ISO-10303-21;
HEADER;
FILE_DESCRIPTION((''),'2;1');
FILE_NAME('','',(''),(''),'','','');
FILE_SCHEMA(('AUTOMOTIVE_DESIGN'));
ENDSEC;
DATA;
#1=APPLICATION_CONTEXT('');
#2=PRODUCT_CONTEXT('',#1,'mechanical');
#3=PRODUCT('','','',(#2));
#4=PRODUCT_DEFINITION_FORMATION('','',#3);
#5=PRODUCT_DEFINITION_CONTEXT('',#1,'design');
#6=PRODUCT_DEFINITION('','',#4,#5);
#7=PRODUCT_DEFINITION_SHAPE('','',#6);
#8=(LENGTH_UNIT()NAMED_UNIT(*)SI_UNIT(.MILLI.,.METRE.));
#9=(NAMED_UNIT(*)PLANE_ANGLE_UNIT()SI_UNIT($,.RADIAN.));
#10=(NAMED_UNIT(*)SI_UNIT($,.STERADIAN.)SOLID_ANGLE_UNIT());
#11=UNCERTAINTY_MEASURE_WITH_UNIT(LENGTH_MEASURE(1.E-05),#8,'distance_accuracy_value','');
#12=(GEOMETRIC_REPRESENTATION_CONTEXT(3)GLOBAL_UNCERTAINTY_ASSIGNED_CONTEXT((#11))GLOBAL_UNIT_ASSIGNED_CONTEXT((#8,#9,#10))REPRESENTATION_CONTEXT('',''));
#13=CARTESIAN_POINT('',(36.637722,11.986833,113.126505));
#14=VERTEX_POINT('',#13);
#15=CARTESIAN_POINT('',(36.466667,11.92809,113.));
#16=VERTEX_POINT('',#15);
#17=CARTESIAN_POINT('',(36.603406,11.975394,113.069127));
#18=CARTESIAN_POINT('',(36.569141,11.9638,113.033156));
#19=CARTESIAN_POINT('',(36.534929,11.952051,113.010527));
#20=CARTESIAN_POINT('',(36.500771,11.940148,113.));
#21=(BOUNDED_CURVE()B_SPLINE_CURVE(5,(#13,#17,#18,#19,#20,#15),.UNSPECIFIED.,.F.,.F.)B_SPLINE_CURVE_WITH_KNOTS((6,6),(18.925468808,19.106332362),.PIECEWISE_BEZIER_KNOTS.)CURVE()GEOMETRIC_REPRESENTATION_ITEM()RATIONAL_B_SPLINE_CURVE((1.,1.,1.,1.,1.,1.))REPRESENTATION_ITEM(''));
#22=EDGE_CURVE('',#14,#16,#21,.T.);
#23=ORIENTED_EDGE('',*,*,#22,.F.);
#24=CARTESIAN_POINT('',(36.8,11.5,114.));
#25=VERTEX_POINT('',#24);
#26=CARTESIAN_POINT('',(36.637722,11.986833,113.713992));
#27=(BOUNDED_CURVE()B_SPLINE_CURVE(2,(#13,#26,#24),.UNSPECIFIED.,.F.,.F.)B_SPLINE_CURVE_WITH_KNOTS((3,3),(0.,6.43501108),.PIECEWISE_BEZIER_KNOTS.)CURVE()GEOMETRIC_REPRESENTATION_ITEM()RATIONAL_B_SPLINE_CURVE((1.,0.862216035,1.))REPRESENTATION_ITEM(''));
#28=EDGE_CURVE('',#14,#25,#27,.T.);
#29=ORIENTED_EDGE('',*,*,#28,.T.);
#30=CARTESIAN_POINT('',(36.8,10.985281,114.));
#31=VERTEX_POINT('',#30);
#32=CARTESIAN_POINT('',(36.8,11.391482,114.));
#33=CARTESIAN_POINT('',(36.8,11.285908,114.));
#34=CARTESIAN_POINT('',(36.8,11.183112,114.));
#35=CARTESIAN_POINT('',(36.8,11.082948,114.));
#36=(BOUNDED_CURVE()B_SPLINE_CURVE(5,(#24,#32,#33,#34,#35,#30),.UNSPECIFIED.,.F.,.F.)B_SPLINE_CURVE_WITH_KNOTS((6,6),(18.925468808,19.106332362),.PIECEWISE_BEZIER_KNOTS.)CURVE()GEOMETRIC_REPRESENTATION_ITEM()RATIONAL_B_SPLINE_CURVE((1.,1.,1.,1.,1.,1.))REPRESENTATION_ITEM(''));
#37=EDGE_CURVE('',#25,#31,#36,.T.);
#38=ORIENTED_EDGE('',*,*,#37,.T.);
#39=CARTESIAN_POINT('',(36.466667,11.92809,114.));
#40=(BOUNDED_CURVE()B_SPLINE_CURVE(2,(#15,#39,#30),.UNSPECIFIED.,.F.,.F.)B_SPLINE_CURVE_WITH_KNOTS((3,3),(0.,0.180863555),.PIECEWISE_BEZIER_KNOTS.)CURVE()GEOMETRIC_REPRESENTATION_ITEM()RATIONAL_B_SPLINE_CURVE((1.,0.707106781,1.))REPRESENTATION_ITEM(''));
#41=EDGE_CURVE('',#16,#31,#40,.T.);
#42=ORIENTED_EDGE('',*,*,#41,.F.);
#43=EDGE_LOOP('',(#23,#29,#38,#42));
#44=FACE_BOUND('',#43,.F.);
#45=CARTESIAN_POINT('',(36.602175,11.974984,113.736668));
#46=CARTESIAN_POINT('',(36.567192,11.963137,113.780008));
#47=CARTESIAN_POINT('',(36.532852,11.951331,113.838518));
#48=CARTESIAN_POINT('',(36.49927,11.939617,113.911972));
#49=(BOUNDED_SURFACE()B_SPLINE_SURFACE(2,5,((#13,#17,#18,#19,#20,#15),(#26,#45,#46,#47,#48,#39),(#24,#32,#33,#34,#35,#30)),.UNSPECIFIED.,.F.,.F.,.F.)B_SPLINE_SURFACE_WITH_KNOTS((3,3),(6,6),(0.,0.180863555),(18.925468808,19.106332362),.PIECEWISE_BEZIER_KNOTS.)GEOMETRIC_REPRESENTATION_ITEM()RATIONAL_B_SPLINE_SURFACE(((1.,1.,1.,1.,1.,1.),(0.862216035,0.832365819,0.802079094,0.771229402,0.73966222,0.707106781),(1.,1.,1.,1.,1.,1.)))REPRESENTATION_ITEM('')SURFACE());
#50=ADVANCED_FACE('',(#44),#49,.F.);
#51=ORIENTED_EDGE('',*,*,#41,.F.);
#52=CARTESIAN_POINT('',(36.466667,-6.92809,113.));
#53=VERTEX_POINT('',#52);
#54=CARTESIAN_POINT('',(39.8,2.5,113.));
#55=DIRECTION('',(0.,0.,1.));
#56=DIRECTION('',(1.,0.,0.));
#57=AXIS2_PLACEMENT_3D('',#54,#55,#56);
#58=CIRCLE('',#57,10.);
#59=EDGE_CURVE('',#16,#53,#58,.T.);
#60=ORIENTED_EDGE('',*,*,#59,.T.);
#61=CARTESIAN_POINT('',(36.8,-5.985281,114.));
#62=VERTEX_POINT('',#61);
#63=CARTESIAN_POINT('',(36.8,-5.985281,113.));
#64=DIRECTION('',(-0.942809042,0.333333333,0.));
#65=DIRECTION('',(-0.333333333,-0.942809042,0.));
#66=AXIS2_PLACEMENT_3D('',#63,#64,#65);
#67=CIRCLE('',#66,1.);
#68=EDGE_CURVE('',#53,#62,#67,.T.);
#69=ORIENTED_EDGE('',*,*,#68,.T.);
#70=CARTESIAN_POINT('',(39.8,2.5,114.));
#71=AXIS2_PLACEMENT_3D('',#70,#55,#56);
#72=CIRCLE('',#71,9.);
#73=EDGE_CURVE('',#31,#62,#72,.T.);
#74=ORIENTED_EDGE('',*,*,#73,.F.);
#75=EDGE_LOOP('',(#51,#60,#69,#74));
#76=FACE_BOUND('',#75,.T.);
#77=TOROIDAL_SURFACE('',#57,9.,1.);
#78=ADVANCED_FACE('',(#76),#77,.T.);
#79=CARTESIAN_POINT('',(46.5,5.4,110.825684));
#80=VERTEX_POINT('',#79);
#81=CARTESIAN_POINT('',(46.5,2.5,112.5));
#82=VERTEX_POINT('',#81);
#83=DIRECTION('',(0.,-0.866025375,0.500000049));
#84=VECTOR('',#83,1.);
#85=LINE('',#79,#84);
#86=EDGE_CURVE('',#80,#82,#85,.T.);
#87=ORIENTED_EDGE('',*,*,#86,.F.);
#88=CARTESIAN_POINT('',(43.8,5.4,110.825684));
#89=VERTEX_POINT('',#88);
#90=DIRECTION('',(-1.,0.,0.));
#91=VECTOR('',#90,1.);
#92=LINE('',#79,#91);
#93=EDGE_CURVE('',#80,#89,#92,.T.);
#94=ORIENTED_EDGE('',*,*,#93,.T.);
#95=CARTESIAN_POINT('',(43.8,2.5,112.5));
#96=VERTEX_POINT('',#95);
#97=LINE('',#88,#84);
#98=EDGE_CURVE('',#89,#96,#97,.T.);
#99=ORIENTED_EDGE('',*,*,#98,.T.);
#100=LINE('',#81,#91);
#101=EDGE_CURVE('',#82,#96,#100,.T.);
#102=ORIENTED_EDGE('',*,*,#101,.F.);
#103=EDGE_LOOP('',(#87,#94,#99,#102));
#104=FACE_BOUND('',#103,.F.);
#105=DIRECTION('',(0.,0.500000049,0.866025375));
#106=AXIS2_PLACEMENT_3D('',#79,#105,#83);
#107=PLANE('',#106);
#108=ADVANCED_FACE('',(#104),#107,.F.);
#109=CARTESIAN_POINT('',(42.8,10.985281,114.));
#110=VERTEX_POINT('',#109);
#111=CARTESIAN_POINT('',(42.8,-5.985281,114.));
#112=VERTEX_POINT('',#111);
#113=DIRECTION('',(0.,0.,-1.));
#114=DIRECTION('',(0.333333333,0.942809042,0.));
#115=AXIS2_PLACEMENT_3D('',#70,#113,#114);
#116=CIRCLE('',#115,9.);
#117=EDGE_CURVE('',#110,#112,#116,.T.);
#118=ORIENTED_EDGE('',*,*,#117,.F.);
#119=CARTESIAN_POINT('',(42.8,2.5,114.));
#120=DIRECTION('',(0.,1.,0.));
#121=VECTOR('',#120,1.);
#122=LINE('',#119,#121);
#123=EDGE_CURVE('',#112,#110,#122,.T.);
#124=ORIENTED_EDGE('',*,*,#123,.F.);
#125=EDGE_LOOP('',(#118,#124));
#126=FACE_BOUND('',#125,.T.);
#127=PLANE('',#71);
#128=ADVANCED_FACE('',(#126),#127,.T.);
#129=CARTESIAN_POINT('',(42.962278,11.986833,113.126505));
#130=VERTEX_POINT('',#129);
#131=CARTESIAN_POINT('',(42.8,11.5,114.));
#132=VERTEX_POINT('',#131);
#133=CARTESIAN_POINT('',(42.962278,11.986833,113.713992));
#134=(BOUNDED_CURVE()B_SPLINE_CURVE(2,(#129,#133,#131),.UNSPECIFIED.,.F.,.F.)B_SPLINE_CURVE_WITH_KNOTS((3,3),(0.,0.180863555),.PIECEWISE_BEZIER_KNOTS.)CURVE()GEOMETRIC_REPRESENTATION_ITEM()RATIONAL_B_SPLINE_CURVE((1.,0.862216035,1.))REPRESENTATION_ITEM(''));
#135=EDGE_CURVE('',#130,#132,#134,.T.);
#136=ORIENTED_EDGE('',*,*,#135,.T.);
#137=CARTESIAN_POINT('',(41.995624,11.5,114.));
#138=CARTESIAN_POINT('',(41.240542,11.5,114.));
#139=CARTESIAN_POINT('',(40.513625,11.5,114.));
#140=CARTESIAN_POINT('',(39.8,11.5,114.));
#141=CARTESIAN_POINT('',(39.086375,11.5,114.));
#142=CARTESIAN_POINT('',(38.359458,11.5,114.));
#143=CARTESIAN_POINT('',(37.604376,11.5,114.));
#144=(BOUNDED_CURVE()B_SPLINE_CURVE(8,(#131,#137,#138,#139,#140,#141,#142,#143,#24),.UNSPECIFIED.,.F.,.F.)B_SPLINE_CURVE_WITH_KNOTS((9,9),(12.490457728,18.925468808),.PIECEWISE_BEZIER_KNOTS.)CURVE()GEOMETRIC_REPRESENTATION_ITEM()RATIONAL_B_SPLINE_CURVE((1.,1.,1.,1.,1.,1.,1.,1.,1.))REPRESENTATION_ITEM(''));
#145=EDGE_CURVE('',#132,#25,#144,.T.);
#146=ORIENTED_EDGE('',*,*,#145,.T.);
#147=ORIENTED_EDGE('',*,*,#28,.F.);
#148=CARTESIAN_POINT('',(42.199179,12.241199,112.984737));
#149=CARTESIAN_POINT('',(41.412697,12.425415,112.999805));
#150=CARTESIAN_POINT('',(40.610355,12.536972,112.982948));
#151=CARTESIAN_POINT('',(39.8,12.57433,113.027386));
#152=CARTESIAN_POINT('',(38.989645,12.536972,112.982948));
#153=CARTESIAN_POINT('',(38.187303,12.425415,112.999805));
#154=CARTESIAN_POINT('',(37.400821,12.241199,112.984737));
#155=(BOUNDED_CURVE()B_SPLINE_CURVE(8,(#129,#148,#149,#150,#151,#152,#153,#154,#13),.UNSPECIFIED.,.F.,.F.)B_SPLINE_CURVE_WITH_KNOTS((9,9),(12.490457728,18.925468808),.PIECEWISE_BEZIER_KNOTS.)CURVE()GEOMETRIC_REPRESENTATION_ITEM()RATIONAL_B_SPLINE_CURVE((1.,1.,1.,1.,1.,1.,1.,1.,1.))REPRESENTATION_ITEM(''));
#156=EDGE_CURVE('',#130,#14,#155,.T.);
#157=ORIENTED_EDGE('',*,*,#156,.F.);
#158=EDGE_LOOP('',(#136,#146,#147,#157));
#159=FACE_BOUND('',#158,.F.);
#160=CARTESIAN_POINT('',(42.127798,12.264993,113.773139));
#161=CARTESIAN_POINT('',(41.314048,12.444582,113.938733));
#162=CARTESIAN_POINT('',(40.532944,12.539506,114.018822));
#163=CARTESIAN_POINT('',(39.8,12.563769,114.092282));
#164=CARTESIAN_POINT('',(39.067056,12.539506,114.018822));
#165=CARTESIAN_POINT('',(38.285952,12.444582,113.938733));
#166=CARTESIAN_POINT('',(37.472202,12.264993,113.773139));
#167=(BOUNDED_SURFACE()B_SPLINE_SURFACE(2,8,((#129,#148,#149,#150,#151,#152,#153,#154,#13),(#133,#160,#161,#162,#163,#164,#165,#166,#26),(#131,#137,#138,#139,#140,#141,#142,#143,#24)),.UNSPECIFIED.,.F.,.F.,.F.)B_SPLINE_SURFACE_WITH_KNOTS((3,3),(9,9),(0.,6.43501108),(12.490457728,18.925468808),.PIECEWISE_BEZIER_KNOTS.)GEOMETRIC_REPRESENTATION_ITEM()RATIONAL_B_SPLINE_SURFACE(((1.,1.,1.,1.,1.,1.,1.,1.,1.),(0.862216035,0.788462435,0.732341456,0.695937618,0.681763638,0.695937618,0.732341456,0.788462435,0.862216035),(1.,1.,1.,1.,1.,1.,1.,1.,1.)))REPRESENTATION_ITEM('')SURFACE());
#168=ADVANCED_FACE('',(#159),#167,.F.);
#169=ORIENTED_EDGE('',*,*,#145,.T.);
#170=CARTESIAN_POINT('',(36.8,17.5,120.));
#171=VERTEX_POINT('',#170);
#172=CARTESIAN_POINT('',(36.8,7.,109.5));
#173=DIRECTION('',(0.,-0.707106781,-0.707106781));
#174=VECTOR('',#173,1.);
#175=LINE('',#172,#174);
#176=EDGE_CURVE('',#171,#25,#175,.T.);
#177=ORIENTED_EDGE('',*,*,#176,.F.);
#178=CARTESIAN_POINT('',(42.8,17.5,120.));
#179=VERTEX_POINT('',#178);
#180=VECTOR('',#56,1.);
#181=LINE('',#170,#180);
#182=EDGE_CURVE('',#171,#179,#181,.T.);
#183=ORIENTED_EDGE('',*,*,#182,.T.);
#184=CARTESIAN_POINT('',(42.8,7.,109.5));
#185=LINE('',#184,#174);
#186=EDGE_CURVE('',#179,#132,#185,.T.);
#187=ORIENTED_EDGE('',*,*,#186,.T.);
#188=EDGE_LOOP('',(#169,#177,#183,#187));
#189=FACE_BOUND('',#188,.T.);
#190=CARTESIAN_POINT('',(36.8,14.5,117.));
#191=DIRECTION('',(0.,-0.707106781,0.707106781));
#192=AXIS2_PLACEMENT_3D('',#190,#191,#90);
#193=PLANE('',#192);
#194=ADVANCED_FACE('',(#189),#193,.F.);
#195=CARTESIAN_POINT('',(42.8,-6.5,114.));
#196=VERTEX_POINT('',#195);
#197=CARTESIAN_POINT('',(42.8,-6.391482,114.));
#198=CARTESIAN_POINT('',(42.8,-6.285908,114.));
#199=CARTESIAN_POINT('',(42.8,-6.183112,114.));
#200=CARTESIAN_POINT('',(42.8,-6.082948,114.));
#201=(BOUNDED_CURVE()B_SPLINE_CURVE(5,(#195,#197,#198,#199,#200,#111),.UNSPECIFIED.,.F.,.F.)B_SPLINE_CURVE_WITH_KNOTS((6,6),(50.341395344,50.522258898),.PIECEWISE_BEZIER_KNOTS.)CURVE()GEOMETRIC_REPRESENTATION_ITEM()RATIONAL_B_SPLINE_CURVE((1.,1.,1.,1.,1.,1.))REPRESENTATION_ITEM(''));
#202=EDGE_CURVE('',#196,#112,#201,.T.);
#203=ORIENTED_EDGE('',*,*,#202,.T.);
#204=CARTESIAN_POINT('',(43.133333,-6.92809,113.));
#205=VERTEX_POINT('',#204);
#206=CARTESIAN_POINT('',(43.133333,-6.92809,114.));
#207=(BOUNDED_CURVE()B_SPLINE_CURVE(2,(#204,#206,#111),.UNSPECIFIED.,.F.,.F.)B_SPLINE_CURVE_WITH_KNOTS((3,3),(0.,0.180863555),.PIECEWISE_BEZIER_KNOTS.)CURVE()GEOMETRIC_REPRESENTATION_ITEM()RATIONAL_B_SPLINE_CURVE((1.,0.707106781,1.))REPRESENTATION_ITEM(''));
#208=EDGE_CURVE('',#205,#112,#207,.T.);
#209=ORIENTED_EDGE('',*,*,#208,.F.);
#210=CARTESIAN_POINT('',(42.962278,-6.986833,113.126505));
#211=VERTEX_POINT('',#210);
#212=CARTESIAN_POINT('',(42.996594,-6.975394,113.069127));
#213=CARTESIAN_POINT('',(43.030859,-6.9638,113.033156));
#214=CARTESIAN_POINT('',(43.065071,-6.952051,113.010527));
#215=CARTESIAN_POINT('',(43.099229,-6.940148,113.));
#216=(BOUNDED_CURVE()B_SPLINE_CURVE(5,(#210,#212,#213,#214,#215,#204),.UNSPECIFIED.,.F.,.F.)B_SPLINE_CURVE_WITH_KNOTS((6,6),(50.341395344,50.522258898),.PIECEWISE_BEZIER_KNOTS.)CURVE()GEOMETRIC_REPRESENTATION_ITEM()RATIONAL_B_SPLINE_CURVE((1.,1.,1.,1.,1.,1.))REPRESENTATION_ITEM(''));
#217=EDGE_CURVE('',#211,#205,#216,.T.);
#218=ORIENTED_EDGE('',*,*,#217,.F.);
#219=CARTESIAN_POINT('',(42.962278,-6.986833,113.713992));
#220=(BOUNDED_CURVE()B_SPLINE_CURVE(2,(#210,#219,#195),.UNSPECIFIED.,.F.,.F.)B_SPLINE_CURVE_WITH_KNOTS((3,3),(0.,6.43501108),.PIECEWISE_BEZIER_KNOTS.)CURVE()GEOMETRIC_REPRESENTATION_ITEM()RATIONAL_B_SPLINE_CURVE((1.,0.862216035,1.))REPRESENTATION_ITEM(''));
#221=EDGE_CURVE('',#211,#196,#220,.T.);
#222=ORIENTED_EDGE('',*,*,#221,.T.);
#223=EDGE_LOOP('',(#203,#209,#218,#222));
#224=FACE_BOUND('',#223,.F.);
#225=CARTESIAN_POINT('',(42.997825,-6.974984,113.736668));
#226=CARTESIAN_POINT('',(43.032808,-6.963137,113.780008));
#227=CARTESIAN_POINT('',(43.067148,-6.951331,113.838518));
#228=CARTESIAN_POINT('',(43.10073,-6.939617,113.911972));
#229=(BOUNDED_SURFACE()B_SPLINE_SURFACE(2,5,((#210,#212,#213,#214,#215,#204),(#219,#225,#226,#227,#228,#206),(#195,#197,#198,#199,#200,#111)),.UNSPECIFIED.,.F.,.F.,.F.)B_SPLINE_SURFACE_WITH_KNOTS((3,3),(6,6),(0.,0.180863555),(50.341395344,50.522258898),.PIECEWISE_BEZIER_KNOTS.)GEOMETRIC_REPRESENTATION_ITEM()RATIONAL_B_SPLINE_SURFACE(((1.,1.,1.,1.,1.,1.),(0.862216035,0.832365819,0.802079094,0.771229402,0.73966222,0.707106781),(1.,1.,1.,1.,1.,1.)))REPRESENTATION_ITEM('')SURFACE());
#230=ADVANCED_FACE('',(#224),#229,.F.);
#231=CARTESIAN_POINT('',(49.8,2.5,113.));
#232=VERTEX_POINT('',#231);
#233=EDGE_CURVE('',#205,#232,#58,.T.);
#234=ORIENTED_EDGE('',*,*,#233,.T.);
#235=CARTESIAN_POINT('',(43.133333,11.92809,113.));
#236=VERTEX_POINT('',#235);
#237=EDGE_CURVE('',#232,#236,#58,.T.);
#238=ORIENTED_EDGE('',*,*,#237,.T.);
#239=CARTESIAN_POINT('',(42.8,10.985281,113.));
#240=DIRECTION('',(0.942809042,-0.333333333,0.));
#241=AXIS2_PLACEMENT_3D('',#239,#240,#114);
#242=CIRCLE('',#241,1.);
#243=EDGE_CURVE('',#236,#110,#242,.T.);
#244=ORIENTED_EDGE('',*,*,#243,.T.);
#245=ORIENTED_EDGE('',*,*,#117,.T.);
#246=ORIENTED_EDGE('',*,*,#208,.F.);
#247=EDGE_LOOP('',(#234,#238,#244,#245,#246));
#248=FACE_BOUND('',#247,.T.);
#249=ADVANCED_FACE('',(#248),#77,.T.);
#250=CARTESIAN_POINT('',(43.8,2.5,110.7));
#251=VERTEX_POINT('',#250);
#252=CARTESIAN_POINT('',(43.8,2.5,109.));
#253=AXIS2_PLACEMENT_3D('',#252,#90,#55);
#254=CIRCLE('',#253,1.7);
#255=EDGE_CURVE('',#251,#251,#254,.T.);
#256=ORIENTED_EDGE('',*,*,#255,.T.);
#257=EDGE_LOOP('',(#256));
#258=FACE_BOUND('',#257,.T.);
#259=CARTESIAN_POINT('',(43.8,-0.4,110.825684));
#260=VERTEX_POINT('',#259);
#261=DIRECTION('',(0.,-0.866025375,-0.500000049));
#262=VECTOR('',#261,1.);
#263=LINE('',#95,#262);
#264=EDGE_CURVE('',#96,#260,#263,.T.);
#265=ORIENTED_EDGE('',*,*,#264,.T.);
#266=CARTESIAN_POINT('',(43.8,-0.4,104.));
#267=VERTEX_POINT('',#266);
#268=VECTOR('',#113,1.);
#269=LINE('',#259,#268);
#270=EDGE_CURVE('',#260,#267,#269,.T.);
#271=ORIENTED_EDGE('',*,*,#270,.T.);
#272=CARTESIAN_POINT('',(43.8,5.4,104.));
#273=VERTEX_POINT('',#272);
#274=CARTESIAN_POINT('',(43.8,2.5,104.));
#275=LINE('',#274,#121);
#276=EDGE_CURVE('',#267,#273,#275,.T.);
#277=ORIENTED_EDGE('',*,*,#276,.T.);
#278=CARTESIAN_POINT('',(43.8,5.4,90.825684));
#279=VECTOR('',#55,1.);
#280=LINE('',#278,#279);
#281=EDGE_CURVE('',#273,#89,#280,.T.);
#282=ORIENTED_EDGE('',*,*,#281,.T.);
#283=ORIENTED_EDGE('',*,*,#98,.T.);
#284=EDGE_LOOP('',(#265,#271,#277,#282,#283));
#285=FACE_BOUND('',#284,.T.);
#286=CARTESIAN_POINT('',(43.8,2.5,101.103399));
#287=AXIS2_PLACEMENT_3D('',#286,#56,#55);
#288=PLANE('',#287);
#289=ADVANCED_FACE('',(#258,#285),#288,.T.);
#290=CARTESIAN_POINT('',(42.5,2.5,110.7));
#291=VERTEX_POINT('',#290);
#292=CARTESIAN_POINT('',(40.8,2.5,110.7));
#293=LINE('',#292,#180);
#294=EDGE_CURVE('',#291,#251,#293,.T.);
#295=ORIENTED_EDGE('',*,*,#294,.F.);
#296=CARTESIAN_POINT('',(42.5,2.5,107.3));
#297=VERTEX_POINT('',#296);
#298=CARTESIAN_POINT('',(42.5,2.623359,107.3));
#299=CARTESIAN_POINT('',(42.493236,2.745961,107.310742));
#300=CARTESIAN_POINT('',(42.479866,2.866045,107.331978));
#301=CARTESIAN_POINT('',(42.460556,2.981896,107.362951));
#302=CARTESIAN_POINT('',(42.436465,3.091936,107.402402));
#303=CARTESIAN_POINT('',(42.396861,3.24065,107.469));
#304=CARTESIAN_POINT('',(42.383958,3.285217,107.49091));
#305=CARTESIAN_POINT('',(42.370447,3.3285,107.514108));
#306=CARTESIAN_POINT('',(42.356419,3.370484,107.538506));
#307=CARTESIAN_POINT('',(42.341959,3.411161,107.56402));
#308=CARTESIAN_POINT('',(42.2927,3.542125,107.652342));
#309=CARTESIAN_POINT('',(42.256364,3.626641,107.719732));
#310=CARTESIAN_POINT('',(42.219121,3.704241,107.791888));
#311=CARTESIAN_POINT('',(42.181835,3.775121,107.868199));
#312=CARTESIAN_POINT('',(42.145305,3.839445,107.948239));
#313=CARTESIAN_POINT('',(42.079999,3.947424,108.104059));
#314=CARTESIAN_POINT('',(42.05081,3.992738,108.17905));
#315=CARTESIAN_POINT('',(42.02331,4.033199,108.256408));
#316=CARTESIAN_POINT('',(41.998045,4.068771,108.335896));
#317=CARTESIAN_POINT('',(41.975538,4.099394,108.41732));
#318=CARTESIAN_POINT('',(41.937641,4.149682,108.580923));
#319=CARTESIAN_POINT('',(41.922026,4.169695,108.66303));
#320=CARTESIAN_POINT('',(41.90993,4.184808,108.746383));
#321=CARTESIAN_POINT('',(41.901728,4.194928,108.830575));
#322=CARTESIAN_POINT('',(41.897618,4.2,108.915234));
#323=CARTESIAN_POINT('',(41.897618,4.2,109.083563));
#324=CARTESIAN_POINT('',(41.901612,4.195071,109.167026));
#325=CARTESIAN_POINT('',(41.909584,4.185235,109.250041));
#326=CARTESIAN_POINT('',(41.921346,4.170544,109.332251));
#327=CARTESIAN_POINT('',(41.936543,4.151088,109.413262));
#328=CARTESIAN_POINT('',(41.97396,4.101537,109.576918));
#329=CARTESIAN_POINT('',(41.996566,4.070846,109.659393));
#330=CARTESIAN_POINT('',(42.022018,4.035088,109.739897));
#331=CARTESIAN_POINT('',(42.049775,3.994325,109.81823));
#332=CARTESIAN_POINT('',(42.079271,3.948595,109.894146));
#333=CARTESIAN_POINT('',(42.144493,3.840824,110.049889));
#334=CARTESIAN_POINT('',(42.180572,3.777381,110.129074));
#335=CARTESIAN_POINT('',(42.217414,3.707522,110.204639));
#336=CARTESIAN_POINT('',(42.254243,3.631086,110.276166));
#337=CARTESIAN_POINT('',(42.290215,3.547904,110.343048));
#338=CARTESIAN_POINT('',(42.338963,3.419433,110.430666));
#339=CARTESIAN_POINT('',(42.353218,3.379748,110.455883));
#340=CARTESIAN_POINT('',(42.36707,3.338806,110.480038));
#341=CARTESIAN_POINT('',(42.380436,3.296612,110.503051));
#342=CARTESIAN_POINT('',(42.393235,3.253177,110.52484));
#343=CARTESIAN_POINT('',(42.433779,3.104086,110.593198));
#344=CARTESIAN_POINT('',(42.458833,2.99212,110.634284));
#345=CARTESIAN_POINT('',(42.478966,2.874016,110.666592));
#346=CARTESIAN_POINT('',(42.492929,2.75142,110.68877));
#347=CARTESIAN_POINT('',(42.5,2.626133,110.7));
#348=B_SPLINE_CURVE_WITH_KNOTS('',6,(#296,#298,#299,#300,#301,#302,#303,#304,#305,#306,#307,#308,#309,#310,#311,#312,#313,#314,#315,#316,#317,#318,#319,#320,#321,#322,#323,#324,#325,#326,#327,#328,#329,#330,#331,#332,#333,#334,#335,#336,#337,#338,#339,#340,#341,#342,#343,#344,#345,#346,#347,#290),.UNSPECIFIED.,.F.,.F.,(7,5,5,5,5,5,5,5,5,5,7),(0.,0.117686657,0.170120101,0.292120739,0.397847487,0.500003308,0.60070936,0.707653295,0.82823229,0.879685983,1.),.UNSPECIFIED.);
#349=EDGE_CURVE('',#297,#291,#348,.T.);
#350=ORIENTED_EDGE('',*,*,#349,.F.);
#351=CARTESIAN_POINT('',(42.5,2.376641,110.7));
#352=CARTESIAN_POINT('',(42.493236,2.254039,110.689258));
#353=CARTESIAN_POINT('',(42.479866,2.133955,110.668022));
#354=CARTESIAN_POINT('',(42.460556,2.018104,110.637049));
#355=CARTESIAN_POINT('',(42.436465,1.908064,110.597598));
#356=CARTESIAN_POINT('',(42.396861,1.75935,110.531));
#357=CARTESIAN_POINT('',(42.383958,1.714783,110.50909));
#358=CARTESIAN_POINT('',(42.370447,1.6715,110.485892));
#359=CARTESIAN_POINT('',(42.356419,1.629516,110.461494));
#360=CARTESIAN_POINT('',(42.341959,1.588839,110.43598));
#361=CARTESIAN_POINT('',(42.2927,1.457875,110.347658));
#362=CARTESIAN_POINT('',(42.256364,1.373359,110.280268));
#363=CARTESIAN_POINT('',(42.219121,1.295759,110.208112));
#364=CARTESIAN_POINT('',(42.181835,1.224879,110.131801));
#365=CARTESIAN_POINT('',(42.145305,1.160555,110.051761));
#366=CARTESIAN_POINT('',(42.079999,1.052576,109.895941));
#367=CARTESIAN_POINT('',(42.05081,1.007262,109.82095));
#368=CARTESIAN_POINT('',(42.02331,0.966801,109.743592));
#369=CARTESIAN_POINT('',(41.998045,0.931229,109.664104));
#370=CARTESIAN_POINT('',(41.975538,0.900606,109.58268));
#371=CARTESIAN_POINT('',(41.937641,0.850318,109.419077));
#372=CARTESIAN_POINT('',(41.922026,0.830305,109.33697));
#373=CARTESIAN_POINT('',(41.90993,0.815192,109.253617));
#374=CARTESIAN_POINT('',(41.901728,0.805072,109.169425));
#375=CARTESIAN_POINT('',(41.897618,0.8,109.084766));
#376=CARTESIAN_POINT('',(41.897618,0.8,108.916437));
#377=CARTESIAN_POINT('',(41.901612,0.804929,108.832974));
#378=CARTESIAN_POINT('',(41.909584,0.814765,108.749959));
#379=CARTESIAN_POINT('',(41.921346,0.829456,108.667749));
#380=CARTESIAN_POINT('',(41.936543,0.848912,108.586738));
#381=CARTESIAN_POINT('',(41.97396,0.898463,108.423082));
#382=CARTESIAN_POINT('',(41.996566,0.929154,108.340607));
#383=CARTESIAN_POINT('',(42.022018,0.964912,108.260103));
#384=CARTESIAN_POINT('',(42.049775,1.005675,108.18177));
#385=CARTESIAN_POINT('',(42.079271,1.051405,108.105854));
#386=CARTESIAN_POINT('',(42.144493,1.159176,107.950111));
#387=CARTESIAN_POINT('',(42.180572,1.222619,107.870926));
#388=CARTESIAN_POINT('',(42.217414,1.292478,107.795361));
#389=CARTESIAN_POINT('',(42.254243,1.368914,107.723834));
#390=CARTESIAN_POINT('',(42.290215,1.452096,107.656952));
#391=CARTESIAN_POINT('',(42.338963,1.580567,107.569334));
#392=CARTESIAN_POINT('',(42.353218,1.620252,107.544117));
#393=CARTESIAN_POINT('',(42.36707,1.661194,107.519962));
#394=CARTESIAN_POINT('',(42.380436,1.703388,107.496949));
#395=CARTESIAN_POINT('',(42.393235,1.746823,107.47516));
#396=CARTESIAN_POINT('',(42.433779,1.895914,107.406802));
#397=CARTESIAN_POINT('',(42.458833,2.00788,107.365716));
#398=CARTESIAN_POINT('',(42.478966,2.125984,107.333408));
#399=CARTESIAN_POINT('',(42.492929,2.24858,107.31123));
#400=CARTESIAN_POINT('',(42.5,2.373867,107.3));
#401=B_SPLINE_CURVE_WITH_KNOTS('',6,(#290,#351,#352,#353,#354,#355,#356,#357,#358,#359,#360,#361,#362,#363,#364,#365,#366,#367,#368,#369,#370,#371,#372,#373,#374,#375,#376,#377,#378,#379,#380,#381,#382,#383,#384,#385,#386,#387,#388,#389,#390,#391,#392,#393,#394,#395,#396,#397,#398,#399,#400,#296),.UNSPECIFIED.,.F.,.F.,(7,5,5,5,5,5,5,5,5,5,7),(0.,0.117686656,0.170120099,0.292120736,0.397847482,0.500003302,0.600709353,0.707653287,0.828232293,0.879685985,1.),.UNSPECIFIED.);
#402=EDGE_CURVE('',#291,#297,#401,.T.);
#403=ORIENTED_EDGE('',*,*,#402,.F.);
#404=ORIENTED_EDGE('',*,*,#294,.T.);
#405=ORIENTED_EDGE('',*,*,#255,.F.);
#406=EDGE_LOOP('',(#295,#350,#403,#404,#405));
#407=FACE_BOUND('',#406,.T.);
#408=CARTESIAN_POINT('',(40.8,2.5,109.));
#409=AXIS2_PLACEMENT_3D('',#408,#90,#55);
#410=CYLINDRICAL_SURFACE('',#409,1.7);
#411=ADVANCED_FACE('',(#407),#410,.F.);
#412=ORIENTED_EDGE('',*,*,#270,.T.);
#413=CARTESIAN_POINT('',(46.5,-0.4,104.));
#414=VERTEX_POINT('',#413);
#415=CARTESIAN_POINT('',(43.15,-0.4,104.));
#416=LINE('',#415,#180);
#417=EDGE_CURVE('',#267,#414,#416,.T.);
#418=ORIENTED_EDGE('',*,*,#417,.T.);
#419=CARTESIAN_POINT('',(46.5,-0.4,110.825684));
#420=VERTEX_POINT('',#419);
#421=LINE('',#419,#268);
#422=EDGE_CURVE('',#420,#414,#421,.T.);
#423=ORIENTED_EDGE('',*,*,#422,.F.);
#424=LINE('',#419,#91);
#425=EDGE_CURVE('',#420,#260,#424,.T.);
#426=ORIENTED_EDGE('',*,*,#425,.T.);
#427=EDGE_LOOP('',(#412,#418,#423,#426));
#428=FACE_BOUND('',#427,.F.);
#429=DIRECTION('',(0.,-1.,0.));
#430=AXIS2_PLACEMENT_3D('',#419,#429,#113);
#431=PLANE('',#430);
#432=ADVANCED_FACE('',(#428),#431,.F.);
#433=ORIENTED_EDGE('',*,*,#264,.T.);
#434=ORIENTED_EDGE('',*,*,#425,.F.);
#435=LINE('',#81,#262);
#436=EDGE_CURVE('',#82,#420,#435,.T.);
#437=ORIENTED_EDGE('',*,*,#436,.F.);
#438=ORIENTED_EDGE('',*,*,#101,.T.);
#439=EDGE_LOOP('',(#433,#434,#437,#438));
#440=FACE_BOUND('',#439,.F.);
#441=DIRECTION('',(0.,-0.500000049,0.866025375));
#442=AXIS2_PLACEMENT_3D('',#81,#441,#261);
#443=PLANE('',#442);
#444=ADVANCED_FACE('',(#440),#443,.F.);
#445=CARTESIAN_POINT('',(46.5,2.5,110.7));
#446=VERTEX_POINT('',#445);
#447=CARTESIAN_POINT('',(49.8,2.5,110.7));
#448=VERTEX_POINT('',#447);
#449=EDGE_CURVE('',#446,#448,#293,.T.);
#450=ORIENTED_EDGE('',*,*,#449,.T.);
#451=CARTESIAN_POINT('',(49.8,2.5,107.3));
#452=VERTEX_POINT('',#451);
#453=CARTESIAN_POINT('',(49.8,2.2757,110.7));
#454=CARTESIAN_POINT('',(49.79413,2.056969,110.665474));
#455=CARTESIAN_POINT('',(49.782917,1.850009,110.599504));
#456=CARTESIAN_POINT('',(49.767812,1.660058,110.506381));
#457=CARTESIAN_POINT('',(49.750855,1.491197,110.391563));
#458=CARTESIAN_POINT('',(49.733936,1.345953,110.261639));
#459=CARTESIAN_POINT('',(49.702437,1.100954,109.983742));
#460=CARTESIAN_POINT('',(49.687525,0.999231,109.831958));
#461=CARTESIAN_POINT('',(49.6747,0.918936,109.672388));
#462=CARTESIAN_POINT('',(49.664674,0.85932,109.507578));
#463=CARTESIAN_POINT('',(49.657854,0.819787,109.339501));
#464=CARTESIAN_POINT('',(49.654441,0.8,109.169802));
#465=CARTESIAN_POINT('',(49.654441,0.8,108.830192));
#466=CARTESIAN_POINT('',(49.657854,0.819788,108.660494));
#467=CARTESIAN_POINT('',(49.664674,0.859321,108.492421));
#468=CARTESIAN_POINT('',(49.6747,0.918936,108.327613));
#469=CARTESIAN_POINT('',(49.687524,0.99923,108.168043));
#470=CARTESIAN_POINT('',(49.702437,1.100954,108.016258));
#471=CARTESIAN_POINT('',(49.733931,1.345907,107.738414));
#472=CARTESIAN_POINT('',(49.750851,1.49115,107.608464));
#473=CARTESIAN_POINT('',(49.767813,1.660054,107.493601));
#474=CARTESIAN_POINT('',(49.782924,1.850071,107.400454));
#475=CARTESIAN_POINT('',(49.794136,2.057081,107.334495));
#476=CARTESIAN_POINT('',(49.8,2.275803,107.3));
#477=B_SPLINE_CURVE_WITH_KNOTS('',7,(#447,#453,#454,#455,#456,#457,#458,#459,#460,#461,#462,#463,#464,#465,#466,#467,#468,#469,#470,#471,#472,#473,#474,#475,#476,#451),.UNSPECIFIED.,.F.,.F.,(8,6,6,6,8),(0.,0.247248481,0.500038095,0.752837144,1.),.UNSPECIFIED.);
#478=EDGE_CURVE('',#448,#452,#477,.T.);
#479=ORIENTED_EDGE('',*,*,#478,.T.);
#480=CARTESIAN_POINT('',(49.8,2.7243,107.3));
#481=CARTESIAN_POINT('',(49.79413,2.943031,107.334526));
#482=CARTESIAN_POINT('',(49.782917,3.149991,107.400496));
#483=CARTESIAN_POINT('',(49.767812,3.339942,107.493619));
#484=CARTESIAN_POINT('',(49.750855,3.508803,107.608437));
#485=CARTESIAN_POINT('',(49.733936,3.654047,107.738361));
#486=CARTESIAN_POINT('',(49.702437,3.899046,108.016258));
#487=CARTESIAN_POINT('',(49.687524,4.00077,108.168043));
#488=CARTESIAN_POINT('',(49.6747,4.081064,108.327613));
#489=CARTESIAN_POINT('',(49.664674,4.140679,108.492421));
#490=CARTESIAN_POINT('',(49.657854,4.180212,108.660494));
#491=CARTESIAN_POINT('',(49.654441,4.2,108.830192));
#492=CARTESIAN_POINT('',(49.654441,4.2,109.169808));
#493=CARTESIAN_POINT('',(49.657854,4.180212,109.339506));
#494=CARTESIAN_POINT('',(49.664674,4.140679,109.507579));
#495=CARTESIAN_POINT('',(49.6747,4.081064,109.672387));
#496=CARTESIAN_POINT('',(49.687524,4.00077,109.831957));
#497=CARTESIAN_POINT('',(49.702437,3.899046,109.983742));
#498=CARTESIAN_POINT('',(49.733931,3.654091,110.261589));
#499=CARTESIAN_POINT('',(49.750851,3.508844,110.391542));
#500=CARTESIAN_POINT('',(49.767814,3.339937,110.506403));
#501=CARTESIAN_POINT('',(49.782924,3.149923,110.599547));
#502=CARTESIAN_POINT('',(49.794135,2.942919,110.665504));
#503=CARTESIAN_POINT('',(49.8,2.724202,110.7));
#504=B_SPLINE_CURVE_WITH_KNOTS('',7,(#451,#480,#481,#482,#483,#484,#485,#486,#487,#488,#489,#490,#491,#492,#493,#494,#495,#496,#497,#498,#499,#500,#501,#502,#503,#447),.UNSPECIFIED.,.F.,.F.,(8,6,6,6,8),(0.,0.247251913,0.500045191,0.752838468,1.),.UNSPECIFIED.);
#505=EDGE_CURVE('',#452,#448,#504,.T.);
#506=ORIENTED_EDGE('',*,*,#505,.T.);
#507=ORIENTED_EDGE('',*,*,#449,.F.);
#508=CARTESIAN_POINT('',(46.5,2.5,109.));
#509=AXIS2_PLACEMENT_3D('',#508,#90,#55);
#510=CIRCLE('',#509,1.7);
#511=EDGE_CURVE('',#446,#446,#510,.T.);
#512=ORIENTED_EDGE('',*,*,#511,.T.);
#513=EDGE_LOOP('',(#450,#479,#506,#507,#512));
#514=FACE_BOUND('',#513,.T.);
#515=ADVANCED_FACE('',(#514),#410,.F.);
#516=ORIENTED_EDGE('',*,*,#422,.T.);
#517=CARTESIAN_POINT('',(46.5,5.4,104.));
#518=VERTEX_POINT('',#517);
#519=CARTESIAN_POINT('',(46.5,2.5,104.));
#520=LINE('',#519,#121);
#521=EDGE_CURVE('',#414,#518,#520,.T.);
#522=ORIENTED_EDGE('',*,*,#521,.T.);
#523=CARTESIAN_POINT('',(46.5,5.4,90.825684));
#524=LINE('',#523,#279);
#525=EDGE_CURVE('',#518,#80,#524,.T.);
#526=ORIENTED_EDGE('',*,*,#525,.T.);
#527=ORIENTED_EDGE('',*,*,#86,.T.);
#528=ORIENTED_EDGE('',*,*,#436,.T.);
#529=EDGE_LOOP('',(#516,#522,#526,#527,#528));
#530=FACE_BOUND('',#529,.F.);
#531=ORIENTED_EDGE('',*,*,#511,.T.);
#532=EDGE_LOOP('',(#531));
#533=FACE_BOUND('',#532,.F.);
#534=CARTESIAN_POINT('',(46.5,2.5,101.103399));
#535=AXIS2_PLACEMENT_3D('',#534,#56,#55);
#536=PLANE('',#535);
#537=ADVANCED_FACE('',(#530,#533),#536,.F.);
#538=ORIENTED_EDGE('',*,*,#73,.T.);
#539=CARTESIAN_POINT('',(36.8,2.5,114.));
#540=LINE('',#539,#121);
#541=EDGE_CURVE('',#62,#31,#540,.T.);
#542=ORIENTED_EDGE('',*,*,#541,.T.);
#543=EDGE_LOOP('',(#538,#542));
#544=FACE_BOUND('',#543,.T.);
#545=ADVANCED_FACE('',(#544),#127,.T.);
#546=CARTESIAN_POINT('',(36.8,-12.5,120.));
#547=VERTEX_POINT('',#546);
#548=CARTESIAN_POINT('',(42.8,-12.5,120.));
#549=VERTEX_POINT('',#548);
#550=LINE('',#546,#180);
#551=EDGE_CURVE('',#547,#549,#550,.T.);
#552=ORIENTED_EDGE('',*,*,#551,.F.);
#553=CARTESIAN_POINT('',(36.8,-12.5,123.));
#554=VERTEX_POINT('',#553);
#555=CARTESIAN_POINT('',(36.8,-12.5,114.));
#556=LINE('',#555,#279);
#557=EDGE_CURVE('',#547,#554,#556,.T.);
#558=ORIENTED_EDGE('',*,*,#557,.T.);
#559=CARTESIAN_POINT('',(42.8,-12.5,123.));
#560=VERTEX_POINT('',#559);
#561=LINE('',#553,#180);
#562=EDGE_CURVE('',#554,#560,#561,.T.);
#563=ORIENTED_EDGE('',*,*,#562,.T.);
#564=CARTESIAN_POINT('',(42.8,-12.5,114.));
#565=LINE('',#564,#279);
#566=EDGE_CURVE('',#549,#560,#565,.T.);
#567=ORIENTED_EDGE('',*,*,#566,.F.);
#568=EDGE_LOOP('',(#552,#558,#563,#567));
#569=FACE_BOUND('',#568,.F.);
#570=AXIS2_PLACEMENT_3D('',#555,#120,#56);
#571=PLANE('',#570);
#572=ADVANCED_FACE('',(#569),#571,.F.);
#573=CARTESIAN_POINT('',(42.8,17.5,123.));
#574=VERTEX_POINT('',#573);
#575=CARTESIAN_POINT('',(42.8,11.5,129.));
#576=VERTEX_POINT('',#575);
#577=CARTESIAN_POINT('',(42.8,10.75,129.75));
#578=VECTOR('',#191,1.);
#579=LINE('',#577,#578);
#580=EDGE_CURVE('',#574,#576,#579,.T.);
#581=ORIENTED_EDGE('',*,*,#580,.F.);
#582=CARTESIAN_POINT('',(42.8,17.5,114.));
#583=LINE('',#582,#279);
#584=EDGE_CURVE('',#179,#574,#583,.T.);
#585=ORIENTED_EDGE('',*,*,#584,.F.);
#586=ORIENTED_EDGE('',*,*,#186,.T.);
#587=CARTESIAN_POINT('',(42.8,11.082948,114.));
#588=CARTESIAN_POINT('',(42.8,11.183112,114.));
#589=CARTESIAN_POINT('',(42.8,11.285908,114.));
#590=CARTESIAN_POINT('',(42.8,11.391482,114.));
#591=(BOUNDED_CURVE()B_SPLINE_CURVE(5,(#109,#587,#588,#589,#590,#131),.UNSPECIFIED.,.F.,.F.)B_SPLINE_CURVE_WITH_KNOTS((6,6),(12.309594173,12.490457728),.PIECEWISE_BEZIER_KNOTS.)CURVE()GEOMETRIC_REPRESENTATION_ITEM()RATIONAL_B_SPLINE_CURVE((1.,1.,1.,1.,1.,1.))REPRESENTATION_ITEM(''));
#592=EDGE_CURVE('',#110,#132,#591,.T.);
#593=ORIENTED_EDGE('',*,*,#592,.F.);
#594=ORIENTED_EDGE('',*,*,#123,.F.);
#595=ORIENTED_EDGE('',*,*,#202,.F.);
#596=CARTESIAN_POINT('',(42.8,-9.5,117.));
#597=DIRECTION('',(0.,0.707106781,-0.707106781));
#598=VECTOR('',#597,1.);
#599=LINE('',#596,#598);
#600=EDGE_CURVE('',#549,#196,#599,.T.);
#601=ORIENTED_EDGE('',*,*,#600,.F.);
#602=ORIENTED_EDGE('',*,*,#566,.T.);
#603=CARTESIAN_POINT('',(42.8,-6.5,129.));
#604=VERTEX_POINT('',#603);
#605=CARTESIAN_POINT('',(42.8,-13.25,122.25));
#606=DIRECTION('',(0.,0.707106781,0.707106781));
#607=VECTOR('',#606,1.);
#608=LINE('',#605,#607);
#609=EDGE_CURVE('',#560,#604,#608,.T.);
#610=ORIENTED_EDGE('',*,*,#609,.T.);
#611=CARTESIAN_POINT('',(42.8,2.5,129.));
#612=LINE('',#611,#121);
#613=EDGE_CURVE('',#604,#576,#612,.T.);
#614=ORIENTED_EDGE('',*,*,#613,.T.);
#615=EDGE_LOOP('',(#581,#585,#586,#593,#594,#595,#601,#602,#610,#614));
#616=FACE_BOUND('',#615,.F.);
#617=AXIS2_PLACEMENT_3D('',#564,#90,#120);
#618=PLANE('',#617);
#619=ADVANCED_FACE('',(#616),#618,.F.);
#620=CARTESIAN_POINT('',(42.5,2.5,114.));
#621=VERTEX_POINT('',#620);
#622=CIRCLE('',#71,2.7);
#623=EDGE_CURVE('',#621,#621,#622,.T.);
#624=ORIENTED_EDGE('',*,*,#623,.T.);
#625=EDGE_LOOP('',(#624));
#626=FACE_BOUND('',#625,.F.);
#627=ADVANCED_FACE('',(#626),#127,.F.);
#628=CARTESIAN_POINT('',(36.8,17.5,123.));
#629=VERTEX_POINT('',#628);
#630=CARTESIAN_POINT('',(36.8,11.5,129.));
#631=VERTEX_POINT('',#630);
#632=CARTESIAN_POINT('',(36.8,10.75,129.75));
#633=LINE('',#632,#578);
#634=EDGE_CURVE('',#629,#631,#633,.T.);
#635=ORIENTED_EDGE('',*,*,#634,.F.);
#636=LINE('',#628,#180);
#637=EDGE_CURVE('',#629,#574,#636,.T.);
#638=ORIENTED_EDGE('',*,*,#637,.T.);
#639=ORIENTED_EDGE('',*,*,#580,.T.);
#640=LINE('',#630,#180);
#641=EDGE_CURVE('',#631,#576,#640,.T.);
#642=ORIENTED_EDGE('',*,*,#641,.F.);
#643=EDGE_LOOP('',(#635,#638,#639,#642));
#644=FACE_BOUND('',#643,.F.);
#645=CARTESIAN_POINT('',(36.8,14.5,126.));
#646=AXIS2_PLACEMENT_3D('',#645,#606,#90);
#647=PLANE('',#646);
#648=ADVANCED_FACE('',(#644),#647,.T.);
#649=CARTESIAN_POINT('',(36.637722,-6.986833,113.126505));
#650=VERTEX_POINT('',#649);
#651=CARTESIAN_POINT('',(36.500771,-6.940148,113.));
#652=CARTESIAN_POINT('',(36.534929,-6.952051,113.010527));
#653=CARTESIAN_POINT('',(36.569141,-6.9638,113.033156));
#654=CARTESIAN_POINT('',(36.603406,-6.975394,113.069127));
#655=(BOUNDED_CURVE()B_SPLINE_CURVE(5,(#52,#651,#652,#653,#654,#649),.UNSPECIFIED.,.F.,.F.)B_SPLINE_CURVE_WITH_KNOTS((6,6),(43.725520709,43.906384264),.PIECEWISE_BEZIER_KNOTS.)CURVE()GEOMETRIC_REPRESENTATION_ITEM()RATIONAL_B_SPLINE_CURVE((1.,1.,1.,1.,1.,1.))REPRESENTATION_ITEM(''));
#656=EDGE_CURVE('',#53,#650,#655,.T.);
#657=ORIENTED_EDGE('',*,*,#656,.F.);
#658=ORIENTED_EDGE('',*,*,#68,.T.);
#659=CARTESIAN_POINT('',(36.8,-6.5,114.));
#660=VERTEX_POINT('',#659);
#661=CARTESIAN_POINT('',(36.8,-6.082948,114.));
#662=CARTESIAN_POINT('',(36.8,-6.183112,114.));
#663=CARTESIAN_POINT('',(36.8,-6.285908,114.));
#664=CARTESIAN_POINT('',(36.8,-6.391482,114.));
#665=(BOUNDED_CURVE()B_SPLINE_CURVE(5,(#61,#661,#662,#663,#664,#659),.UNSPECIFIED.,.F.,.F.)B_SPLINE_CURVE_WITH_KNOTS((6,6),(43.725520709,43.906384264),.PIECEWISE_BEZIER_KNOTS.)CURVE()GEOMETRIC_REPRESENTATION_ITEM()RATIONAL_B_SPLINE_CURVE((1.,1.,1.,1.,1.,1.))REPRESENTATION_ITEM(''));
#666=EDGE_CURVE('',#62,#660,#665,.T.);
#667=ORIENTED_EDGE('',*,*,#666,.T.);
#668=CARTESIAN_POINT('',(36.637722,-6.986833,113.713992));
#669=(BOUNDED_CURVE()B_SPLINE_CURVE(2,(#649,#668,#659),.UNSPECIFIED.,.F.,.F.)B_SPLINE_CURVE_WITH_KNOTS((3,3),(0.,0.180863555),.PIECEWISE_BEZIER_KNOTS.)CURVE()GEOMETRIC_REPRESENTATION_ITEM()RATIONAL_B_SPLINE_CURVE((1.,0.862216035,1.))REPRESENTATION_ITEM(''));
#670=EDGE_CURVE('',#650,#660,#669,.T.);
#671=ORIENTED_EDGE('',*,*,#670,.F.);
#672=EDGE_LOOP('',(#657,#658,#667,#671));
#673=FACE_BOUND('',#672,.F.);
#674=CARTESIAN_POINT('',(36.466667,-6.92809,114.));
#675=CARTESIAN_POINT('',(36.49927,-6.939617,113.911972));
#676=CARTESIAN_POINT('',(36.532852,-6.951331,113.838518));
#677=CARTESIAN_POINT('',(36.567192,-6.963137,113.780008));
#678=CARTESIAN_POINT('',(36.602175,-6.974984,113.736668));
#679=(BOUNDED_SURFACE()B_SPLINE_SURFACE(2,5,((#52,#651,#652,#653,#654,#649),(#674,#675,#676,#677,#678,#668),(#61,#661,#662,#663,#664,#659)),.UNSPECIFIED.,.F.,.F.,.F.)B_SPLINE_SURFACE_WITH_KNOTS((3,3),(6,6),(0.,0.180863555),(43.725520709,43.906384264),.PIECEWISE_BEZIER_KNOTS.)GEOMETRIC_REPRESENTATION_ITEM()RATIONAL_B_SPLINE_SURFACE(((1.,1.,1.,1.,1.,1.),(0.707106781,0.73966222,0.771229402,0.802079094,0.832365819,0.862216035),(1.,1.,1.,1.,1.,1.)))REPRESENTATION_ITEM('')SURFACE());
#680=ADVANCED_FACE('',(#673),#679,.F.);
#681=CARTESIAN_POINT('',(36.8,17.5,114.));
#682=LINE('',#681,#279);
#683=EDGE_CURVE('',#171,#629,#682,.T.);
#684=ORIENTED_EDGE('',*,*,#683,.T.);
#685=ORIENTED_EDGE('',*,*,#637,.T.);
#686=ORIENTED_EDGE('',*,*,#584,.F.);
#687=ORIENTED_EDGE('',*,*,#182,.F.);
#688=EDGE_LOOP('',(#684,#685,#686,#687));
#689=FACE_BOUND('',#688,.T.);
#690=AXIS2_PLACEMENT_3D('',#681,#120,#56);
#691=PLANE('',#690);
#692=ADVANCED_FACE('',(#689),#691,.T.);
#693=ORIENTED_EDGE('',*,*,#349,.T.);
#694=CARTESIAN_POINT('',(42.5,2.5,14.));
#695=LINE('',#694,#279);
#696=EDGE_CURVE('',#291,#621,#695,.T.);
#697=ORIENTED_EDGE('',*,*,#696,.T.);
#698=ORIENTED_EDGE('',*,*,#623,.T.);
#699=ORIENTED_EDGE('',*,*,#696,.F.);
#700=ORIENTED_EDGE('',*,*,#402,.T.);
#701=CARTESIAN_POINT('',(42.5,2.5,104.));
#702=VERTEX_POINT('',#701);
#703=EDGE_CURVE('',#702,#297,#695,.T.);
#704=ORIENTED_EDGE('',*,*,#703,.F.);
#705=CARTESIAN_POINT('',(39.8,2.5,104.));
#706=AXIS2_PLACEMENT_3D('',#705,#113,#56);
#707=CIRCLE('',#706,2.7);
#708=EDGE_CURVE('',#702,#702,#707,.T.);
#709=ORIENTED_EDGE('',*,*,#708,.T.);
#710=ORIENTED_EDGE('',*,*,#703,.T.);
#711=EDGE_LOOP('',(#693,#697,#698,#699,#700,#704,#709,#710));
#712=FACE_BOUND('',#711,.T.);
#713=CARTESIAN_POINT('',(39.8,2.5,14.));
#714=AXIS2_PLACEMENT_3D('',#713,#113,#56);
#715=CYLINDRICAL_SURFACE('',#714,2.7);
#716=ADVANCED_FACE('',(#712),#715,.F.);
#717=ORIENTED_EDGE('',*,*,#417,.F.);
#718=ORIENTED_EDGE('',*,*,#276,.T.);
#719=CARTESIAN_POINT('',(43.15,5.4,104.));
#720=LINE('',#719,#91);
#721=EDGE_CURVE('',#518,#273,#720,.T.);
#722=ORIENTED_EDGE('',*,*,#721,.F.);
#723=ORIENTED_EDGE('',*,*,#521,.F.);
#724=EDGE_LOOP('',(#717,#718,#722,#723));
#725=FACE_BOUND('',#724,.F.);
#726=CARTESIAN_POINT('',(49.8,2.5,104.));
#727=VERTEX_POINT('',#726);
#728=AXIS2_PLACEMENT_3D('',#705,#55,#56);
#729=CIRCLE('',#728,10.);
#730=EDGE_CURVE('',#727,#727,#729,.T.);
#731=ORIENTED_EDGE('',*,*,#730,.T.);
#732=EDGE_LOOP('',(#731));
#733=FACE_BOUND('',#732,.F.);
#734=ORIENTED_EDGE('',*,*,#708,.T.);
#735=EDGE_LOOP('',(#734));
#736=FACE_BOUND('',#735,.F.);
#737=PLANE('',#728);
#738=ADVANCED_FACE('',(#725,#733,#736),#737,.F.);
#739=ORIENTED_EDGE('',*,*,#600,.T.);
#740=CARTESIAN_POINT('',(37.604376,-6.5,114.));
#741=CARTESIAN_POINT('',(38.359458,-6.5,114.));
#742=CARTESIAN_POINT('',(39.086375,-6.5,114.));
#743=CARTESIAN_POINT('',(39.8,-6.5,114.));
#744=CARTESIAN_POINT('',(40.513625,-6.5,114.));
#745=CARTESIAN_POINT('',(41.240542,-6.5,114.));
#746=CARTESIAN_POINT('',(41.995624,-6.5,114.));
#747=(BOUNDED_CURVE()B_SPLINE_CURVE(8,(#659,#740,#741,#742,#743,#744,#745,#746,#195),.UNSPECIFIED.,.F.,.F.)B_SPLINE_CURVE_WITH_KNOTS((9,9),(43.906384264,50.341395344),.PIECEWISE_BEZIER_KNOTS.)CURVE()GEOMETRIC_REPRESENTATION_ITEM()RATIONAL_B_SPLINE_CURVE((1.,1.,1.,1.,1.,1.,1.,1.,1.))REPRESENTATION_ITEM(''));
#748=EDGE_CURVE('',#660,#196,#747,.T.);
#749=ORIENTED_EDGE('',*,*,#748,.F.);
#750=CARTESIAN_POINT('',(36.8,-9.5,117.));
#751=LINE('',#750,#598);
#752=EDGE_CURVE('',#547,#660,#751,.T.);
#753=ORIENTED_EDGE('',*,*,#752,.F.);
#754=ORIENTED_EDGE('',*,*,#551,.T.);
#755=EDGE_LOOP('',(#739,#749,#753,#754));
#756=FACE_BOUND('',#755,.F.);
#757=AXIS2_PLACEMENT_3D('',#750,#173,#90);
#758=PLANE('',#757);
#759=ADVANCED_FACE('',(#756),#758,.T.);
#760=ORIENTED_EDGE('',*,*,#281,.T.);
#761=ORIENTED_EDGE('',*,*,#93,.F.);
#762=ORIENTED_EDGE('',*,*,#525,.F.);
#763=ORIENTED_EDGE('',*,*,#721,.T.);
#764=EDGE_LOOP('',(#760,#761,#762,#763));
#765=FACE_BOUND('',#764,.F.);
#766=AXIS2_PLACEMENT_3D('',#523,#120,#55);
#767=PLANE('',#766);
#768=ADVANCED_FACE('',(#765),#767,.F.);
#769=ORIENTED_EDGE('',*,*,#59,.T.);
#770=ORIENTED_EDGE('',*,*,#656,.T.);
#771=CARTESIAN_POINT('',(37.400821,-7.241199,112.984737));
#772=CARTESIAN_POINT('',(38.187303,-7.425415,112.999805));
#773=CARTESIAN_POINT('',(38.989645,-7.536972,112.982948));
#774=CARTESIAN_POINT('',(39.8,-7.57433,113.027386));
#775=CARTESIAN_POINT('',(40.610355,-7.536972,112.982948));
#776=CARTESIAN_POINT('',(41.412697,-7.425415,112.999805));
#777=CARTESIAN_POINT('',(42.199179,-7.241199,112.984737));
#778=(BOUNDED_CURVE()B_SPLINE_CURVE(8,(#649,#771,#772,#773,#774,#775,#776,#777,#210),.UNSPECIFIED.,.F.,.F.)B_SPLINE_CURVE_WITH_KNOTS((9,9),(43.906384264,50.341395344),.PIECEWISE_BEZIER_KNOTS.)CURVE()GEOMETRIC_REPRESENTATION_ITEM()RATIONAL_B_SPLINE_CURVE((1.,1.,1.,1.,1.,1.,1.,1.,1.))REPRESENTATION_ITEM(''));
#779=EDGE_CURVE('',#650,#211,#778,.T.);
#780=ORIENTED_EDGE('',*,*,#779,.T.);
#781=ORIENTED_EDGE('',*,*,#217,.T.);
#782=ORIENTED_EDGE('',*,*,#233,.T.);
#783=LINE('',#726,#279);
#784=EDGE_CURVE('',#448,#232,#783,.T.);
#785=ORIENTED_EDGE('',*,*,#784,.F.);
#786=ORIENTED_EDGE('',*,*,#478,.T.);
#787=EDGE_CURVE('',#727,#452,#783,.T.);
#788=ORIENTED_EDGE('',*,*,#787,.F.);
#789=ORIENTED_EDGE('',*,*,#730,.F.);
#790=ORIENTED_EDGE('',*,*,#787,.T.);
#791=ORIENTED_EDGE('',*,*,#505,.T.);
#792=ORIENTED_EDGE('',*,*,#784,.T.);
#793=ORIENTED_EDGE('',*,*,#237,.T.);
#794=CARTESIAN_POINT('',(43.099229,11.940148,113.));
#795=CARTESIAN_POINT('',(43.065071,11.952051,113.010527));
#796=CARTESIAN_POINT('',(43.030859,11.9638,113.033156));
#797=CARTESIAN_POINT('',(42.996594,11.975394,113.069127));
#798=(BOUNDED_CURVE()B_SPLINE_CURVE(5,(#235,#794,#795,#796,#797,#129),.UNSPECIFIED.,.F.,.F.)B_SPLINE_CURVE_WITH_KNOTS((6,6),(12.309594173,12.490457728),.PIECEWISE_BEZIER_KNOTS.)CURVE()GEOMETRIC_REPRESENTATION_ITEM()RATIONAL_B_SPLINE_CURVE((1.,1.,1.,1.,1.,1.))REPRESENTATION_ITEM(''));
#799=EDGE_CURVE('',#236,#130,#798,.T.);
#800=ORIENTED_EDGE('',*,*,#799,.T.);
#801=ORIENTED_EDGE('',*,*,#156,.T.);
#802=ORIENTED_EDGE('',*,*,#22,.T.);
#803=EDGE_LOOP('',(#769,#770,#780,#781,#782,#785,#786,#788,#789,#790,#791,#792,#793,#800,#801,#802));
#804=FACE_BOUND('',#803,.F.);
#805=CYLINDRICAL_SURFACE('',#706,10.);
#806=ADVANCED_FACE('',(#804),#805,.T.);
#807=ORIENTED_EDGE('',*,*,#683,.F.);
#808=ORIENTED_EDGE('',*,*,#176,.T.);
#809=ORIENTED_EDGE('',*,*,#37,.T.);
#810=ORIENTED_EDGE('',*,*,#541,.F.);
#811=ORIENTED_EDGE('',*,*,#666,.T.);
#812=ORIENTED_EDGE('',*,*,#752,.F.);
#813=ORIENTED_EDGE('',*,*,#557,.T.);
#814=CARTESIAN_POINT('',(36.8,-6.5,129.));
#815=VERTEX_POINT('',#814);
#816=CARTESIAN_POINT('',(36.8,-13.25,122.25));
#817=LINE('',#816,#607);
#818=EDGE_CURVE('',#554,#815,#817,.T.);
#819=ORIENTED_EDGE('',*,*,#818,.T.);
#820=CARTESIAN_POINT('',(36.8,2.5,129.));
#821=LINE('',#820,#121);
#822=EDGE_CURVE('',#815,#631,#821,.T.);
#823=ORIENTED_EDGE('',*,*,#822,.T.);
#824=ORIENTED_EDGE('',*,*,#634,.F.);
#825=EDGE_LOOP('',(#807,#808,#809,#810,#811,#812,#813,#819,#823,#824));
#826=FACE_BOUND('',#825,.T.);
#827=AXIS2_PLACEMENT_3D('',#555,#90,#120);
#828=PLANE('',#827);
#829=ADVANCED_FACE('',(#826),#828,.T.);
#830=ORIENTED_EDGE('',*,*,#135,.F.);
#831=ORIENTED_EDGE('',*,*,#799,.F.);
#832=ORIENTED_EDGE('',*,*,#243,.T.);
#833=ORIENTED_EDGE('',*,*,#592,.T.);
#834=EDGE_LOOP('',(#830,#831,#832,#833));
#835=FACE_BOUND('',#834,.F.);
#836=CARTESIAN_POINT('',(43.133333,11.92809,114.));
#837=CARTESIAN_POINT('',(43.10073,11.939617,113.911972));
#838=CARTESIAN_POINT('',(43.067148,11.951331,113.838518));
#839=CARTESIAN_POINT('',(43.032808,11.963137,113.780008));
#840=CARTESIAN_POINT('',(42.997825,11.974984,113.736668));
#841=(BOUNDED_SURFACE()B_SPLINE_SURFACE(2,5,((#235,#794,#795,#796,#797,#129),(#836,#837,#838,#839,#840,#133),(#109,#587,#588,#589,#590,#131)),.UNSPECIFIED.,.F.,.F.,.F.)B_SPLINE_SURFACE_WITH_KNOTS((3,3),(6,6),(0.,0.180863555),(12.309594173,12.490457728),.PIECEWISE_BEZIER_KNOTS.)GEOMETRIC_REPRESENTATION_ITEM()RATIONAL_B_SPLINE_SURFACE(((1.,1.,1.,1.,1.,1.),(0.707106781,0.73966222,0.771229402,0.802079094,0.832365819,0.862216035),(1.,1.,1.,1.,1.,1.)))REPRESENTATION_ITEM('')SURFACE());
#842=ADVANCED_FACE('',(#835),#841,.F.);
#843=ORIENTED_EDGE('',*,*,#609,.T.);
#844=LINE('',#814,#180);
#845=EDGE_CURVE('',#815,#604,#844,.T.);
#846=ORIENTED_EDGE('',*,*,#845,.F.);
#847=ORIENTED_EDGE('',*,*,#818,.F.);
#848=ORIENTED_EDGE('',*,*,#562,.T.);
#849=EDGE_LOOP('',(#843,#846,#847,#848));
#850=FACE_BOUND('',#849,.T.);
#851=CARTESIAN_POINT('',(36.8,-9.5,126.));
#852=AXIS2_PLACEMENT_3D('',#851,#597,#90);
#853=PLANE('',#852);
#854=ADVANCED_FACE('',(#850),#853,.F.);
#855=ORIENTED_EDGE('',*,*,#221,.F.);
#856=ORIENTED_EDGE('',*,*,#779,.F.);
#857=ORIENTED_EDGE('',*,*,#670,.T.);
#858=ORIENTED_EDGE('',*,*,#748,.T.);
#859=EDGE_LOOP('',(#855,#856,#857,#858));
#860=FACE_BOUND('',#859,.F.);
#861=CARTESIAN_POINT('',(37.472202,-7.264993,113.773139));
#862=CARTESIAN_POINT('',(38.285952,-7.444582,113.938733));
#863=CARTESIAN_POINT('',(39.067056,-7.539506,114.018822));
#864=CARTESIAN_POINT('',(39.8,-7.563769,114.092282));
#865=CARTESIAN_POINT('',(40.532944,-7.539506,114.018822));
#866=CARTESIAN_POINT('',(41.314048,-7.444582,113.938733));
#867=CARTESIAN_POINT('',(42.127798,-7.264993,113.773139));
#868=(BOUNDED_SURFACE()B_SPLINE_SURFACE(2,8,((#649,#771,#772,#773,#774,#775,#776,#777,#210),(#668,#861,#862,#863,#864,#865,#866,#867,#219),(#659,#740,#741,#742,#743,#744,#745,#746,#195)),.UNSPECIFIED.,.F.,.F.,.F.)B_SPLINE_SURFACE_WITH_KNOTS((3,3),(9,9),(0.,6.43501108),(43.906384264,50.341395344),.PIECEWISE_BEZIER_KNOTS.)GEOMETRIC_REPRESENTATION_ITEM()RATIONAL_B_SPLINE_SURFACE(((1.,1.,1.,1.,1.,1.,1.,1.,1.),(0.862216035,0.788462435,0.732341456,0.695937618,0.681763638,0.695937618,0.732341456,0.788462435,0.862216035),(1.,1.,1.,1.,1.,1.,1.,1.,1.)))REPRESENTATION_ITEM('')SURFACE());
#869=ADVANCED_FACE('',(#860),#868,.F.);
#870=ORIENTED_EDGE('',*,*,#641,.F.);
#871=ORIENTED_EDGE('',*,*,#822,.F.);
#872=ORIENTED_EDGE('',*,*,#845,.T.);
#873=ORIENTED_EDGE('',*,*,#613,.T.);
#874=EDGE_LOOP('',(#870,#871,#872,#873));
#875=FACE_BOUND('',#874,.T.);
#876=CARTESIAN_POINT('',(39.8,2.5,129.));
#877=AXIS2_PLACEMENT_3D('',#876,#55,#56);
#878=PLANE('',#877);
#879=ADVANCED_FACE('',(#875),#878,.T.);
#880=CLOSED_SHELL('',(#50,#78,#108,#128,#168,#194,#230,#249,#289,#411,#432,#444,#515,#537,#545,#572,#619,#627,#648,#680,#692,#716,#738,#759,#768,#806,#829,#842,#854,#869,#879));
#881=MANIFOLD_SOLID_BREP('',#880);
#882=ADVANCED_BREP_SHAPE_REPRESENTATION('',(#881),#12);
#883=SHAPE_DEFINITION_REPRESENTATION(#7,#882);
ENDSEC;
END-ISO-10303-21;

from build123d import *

# Parameters (mm, degrees)
PAD007_DEPTH             = 2.7
CLONE087_ROLL_ANGLE      = 180
CYLINDER1014_R           = 2.7
CYLINDER1014_DEPTH       = 100
CYLINDER1018_R           = 1.7
CYLINDER1018_DEPTH       = 10
CLONE086_PITCH_ANGLE     = -90
CLONE086_PLACEMENT_ANGLE = -180
BOX044_W                 = 6
BOX044_H                 = 30
BOX044_DEPTH             = 15
CHAMFER017_SIZE          = 6
CYLINDER1039_R           = 10
CYLINDER1039_DEPTH       = 10
FILLET_R                 = 1


with BuildPart() as clone_of_m3nuthousingmaster012:
    # Sketch008 → Pad007 (new body)
    with BuildSketch(Plane(origin=(65, 30, 1.5), x_dir=(0, 0, 1), z_dir=(-1, 0, 0))):
        Polygon((0, 0), (1.674316, 2.9), (21.674316, 2.9), (21.674316, -2.9), (1.674316, -2.9), align=None)
    extrude(amount=PAD007_DEPTH)


with BuildPart() as clone_of_m3nuthousingmaster012_1:
    # Clone087 roll: moved
    add(clone_of_m3nuthousingmaster012.part.rotate(Axis((0, 0, 0), (1, 0, 0)), CLONE087_ROLL_ANGLE))


with BuildPart() as clone_of_m3nuthousingmaster012_2:
    # Clone087 placement: moved
    add(clone_of_m3nuthousingmaster012_1.part.moved(Location((-58.3, 30, 10))))


with BuildPart() as clone_of_5mmrodmaster013:
    # Cylinder1014 → Cylinder1014 (new body)
    with BuildSketch(Plane.XY):
        Circle(CYLINDER1014_R)
    extrude(amount=CYLINDER1014_DEPTH)


with BuildPart() as clone_of_5mmrodmaster013_1:
    # Clone085 placement: moved
    add(clone_of_5mmrodmaster013.part.moved(Location((0, 0, -90))))


with BuildPart() as fusion069:
    # Cylinder1018 → Cylinder1018 (new body)
    with BuildSketch(Plane.XY):
        Circle(CYLINDER1018_R)
    extrude(amount=CYLINDER1018_DEPTH)


with BuildPart() as fusion069_1:
    # Clone086 pitch: moved
    add(fusion069.part.rotate(Axis((0, 0, 0), (0, 1, 0)), CLONE086_PITCH_ANGLE))


with BuildPart() as fusion069_2:
    # Clone086 placement: moved
    add(fusion069_1.part.moved(Location((1, 0, 5))).rotate(Axis((1, 0, 5), (0, 0, 1)), CLONE086_PLACEMENT_ANGLE))

    # Fusion069: union Clone of M3NutHousingMaster012, Clone of 5mmRodMaster013
    add(clone_of_m3nuthousingmaster012_2.part)
    add(clone_of_5mmrodmaster013_1.part)


with BuildPart() as chamfer017:
    # Box044 → Box044 (new body)
    with BuildSketch(Plane(origin=(-3, -15, 10), x_dir=(1, 0, 0), z_dir=(0, 0, 1))):
        with Locations((3, 15)):
            Rectangle(BOX044_W, BOX044_H)
    extrude(amount=BOX044_DEPTH)

    # Chamfer017
    chamfer017_edges = [chamfer017.edges().sort_by_distance(p)[0] for p in [
        (0, -15, 10),
        (0, -15, 25),
        (0, 15, 10),
        (0, 15, 25),
    ]]
    chamfer(chamfer017_edges, length=CHAMFER017_SIZE)


with BuildPart() as clone_of_adjustwheel:
    # Cylinder1039 → Cylinder1039 (new body)
    with BuildSketch(Plane.XY):
        Circle(CYLINDER1039_R)
    extrude(amount=CYLINDER1039_DEPTH)

    # Fusion070: union Chamfer017
    add(chamfer017.part)

    # Fillet
    fillet_edges = [clone_of_adjustwheel.edges().sort_by_distance(p)[0] for p in [
        (-10, 0, 10),
    ]]
    fillet(fillet_edges, radius=FILLET_R)

    # Cut052: cut Fusion069
    add(fusion069_2.part, mode=Mode.SUBTRACT)


with BuildPart() as clone_of_adjustwheel_1:
    # Clone095 placement: moved
    add(clone_of_adjustwheel.part.moved(Location((39.8, 2.5, 104))))


solid = clone_of_adjustwheel_1.part
